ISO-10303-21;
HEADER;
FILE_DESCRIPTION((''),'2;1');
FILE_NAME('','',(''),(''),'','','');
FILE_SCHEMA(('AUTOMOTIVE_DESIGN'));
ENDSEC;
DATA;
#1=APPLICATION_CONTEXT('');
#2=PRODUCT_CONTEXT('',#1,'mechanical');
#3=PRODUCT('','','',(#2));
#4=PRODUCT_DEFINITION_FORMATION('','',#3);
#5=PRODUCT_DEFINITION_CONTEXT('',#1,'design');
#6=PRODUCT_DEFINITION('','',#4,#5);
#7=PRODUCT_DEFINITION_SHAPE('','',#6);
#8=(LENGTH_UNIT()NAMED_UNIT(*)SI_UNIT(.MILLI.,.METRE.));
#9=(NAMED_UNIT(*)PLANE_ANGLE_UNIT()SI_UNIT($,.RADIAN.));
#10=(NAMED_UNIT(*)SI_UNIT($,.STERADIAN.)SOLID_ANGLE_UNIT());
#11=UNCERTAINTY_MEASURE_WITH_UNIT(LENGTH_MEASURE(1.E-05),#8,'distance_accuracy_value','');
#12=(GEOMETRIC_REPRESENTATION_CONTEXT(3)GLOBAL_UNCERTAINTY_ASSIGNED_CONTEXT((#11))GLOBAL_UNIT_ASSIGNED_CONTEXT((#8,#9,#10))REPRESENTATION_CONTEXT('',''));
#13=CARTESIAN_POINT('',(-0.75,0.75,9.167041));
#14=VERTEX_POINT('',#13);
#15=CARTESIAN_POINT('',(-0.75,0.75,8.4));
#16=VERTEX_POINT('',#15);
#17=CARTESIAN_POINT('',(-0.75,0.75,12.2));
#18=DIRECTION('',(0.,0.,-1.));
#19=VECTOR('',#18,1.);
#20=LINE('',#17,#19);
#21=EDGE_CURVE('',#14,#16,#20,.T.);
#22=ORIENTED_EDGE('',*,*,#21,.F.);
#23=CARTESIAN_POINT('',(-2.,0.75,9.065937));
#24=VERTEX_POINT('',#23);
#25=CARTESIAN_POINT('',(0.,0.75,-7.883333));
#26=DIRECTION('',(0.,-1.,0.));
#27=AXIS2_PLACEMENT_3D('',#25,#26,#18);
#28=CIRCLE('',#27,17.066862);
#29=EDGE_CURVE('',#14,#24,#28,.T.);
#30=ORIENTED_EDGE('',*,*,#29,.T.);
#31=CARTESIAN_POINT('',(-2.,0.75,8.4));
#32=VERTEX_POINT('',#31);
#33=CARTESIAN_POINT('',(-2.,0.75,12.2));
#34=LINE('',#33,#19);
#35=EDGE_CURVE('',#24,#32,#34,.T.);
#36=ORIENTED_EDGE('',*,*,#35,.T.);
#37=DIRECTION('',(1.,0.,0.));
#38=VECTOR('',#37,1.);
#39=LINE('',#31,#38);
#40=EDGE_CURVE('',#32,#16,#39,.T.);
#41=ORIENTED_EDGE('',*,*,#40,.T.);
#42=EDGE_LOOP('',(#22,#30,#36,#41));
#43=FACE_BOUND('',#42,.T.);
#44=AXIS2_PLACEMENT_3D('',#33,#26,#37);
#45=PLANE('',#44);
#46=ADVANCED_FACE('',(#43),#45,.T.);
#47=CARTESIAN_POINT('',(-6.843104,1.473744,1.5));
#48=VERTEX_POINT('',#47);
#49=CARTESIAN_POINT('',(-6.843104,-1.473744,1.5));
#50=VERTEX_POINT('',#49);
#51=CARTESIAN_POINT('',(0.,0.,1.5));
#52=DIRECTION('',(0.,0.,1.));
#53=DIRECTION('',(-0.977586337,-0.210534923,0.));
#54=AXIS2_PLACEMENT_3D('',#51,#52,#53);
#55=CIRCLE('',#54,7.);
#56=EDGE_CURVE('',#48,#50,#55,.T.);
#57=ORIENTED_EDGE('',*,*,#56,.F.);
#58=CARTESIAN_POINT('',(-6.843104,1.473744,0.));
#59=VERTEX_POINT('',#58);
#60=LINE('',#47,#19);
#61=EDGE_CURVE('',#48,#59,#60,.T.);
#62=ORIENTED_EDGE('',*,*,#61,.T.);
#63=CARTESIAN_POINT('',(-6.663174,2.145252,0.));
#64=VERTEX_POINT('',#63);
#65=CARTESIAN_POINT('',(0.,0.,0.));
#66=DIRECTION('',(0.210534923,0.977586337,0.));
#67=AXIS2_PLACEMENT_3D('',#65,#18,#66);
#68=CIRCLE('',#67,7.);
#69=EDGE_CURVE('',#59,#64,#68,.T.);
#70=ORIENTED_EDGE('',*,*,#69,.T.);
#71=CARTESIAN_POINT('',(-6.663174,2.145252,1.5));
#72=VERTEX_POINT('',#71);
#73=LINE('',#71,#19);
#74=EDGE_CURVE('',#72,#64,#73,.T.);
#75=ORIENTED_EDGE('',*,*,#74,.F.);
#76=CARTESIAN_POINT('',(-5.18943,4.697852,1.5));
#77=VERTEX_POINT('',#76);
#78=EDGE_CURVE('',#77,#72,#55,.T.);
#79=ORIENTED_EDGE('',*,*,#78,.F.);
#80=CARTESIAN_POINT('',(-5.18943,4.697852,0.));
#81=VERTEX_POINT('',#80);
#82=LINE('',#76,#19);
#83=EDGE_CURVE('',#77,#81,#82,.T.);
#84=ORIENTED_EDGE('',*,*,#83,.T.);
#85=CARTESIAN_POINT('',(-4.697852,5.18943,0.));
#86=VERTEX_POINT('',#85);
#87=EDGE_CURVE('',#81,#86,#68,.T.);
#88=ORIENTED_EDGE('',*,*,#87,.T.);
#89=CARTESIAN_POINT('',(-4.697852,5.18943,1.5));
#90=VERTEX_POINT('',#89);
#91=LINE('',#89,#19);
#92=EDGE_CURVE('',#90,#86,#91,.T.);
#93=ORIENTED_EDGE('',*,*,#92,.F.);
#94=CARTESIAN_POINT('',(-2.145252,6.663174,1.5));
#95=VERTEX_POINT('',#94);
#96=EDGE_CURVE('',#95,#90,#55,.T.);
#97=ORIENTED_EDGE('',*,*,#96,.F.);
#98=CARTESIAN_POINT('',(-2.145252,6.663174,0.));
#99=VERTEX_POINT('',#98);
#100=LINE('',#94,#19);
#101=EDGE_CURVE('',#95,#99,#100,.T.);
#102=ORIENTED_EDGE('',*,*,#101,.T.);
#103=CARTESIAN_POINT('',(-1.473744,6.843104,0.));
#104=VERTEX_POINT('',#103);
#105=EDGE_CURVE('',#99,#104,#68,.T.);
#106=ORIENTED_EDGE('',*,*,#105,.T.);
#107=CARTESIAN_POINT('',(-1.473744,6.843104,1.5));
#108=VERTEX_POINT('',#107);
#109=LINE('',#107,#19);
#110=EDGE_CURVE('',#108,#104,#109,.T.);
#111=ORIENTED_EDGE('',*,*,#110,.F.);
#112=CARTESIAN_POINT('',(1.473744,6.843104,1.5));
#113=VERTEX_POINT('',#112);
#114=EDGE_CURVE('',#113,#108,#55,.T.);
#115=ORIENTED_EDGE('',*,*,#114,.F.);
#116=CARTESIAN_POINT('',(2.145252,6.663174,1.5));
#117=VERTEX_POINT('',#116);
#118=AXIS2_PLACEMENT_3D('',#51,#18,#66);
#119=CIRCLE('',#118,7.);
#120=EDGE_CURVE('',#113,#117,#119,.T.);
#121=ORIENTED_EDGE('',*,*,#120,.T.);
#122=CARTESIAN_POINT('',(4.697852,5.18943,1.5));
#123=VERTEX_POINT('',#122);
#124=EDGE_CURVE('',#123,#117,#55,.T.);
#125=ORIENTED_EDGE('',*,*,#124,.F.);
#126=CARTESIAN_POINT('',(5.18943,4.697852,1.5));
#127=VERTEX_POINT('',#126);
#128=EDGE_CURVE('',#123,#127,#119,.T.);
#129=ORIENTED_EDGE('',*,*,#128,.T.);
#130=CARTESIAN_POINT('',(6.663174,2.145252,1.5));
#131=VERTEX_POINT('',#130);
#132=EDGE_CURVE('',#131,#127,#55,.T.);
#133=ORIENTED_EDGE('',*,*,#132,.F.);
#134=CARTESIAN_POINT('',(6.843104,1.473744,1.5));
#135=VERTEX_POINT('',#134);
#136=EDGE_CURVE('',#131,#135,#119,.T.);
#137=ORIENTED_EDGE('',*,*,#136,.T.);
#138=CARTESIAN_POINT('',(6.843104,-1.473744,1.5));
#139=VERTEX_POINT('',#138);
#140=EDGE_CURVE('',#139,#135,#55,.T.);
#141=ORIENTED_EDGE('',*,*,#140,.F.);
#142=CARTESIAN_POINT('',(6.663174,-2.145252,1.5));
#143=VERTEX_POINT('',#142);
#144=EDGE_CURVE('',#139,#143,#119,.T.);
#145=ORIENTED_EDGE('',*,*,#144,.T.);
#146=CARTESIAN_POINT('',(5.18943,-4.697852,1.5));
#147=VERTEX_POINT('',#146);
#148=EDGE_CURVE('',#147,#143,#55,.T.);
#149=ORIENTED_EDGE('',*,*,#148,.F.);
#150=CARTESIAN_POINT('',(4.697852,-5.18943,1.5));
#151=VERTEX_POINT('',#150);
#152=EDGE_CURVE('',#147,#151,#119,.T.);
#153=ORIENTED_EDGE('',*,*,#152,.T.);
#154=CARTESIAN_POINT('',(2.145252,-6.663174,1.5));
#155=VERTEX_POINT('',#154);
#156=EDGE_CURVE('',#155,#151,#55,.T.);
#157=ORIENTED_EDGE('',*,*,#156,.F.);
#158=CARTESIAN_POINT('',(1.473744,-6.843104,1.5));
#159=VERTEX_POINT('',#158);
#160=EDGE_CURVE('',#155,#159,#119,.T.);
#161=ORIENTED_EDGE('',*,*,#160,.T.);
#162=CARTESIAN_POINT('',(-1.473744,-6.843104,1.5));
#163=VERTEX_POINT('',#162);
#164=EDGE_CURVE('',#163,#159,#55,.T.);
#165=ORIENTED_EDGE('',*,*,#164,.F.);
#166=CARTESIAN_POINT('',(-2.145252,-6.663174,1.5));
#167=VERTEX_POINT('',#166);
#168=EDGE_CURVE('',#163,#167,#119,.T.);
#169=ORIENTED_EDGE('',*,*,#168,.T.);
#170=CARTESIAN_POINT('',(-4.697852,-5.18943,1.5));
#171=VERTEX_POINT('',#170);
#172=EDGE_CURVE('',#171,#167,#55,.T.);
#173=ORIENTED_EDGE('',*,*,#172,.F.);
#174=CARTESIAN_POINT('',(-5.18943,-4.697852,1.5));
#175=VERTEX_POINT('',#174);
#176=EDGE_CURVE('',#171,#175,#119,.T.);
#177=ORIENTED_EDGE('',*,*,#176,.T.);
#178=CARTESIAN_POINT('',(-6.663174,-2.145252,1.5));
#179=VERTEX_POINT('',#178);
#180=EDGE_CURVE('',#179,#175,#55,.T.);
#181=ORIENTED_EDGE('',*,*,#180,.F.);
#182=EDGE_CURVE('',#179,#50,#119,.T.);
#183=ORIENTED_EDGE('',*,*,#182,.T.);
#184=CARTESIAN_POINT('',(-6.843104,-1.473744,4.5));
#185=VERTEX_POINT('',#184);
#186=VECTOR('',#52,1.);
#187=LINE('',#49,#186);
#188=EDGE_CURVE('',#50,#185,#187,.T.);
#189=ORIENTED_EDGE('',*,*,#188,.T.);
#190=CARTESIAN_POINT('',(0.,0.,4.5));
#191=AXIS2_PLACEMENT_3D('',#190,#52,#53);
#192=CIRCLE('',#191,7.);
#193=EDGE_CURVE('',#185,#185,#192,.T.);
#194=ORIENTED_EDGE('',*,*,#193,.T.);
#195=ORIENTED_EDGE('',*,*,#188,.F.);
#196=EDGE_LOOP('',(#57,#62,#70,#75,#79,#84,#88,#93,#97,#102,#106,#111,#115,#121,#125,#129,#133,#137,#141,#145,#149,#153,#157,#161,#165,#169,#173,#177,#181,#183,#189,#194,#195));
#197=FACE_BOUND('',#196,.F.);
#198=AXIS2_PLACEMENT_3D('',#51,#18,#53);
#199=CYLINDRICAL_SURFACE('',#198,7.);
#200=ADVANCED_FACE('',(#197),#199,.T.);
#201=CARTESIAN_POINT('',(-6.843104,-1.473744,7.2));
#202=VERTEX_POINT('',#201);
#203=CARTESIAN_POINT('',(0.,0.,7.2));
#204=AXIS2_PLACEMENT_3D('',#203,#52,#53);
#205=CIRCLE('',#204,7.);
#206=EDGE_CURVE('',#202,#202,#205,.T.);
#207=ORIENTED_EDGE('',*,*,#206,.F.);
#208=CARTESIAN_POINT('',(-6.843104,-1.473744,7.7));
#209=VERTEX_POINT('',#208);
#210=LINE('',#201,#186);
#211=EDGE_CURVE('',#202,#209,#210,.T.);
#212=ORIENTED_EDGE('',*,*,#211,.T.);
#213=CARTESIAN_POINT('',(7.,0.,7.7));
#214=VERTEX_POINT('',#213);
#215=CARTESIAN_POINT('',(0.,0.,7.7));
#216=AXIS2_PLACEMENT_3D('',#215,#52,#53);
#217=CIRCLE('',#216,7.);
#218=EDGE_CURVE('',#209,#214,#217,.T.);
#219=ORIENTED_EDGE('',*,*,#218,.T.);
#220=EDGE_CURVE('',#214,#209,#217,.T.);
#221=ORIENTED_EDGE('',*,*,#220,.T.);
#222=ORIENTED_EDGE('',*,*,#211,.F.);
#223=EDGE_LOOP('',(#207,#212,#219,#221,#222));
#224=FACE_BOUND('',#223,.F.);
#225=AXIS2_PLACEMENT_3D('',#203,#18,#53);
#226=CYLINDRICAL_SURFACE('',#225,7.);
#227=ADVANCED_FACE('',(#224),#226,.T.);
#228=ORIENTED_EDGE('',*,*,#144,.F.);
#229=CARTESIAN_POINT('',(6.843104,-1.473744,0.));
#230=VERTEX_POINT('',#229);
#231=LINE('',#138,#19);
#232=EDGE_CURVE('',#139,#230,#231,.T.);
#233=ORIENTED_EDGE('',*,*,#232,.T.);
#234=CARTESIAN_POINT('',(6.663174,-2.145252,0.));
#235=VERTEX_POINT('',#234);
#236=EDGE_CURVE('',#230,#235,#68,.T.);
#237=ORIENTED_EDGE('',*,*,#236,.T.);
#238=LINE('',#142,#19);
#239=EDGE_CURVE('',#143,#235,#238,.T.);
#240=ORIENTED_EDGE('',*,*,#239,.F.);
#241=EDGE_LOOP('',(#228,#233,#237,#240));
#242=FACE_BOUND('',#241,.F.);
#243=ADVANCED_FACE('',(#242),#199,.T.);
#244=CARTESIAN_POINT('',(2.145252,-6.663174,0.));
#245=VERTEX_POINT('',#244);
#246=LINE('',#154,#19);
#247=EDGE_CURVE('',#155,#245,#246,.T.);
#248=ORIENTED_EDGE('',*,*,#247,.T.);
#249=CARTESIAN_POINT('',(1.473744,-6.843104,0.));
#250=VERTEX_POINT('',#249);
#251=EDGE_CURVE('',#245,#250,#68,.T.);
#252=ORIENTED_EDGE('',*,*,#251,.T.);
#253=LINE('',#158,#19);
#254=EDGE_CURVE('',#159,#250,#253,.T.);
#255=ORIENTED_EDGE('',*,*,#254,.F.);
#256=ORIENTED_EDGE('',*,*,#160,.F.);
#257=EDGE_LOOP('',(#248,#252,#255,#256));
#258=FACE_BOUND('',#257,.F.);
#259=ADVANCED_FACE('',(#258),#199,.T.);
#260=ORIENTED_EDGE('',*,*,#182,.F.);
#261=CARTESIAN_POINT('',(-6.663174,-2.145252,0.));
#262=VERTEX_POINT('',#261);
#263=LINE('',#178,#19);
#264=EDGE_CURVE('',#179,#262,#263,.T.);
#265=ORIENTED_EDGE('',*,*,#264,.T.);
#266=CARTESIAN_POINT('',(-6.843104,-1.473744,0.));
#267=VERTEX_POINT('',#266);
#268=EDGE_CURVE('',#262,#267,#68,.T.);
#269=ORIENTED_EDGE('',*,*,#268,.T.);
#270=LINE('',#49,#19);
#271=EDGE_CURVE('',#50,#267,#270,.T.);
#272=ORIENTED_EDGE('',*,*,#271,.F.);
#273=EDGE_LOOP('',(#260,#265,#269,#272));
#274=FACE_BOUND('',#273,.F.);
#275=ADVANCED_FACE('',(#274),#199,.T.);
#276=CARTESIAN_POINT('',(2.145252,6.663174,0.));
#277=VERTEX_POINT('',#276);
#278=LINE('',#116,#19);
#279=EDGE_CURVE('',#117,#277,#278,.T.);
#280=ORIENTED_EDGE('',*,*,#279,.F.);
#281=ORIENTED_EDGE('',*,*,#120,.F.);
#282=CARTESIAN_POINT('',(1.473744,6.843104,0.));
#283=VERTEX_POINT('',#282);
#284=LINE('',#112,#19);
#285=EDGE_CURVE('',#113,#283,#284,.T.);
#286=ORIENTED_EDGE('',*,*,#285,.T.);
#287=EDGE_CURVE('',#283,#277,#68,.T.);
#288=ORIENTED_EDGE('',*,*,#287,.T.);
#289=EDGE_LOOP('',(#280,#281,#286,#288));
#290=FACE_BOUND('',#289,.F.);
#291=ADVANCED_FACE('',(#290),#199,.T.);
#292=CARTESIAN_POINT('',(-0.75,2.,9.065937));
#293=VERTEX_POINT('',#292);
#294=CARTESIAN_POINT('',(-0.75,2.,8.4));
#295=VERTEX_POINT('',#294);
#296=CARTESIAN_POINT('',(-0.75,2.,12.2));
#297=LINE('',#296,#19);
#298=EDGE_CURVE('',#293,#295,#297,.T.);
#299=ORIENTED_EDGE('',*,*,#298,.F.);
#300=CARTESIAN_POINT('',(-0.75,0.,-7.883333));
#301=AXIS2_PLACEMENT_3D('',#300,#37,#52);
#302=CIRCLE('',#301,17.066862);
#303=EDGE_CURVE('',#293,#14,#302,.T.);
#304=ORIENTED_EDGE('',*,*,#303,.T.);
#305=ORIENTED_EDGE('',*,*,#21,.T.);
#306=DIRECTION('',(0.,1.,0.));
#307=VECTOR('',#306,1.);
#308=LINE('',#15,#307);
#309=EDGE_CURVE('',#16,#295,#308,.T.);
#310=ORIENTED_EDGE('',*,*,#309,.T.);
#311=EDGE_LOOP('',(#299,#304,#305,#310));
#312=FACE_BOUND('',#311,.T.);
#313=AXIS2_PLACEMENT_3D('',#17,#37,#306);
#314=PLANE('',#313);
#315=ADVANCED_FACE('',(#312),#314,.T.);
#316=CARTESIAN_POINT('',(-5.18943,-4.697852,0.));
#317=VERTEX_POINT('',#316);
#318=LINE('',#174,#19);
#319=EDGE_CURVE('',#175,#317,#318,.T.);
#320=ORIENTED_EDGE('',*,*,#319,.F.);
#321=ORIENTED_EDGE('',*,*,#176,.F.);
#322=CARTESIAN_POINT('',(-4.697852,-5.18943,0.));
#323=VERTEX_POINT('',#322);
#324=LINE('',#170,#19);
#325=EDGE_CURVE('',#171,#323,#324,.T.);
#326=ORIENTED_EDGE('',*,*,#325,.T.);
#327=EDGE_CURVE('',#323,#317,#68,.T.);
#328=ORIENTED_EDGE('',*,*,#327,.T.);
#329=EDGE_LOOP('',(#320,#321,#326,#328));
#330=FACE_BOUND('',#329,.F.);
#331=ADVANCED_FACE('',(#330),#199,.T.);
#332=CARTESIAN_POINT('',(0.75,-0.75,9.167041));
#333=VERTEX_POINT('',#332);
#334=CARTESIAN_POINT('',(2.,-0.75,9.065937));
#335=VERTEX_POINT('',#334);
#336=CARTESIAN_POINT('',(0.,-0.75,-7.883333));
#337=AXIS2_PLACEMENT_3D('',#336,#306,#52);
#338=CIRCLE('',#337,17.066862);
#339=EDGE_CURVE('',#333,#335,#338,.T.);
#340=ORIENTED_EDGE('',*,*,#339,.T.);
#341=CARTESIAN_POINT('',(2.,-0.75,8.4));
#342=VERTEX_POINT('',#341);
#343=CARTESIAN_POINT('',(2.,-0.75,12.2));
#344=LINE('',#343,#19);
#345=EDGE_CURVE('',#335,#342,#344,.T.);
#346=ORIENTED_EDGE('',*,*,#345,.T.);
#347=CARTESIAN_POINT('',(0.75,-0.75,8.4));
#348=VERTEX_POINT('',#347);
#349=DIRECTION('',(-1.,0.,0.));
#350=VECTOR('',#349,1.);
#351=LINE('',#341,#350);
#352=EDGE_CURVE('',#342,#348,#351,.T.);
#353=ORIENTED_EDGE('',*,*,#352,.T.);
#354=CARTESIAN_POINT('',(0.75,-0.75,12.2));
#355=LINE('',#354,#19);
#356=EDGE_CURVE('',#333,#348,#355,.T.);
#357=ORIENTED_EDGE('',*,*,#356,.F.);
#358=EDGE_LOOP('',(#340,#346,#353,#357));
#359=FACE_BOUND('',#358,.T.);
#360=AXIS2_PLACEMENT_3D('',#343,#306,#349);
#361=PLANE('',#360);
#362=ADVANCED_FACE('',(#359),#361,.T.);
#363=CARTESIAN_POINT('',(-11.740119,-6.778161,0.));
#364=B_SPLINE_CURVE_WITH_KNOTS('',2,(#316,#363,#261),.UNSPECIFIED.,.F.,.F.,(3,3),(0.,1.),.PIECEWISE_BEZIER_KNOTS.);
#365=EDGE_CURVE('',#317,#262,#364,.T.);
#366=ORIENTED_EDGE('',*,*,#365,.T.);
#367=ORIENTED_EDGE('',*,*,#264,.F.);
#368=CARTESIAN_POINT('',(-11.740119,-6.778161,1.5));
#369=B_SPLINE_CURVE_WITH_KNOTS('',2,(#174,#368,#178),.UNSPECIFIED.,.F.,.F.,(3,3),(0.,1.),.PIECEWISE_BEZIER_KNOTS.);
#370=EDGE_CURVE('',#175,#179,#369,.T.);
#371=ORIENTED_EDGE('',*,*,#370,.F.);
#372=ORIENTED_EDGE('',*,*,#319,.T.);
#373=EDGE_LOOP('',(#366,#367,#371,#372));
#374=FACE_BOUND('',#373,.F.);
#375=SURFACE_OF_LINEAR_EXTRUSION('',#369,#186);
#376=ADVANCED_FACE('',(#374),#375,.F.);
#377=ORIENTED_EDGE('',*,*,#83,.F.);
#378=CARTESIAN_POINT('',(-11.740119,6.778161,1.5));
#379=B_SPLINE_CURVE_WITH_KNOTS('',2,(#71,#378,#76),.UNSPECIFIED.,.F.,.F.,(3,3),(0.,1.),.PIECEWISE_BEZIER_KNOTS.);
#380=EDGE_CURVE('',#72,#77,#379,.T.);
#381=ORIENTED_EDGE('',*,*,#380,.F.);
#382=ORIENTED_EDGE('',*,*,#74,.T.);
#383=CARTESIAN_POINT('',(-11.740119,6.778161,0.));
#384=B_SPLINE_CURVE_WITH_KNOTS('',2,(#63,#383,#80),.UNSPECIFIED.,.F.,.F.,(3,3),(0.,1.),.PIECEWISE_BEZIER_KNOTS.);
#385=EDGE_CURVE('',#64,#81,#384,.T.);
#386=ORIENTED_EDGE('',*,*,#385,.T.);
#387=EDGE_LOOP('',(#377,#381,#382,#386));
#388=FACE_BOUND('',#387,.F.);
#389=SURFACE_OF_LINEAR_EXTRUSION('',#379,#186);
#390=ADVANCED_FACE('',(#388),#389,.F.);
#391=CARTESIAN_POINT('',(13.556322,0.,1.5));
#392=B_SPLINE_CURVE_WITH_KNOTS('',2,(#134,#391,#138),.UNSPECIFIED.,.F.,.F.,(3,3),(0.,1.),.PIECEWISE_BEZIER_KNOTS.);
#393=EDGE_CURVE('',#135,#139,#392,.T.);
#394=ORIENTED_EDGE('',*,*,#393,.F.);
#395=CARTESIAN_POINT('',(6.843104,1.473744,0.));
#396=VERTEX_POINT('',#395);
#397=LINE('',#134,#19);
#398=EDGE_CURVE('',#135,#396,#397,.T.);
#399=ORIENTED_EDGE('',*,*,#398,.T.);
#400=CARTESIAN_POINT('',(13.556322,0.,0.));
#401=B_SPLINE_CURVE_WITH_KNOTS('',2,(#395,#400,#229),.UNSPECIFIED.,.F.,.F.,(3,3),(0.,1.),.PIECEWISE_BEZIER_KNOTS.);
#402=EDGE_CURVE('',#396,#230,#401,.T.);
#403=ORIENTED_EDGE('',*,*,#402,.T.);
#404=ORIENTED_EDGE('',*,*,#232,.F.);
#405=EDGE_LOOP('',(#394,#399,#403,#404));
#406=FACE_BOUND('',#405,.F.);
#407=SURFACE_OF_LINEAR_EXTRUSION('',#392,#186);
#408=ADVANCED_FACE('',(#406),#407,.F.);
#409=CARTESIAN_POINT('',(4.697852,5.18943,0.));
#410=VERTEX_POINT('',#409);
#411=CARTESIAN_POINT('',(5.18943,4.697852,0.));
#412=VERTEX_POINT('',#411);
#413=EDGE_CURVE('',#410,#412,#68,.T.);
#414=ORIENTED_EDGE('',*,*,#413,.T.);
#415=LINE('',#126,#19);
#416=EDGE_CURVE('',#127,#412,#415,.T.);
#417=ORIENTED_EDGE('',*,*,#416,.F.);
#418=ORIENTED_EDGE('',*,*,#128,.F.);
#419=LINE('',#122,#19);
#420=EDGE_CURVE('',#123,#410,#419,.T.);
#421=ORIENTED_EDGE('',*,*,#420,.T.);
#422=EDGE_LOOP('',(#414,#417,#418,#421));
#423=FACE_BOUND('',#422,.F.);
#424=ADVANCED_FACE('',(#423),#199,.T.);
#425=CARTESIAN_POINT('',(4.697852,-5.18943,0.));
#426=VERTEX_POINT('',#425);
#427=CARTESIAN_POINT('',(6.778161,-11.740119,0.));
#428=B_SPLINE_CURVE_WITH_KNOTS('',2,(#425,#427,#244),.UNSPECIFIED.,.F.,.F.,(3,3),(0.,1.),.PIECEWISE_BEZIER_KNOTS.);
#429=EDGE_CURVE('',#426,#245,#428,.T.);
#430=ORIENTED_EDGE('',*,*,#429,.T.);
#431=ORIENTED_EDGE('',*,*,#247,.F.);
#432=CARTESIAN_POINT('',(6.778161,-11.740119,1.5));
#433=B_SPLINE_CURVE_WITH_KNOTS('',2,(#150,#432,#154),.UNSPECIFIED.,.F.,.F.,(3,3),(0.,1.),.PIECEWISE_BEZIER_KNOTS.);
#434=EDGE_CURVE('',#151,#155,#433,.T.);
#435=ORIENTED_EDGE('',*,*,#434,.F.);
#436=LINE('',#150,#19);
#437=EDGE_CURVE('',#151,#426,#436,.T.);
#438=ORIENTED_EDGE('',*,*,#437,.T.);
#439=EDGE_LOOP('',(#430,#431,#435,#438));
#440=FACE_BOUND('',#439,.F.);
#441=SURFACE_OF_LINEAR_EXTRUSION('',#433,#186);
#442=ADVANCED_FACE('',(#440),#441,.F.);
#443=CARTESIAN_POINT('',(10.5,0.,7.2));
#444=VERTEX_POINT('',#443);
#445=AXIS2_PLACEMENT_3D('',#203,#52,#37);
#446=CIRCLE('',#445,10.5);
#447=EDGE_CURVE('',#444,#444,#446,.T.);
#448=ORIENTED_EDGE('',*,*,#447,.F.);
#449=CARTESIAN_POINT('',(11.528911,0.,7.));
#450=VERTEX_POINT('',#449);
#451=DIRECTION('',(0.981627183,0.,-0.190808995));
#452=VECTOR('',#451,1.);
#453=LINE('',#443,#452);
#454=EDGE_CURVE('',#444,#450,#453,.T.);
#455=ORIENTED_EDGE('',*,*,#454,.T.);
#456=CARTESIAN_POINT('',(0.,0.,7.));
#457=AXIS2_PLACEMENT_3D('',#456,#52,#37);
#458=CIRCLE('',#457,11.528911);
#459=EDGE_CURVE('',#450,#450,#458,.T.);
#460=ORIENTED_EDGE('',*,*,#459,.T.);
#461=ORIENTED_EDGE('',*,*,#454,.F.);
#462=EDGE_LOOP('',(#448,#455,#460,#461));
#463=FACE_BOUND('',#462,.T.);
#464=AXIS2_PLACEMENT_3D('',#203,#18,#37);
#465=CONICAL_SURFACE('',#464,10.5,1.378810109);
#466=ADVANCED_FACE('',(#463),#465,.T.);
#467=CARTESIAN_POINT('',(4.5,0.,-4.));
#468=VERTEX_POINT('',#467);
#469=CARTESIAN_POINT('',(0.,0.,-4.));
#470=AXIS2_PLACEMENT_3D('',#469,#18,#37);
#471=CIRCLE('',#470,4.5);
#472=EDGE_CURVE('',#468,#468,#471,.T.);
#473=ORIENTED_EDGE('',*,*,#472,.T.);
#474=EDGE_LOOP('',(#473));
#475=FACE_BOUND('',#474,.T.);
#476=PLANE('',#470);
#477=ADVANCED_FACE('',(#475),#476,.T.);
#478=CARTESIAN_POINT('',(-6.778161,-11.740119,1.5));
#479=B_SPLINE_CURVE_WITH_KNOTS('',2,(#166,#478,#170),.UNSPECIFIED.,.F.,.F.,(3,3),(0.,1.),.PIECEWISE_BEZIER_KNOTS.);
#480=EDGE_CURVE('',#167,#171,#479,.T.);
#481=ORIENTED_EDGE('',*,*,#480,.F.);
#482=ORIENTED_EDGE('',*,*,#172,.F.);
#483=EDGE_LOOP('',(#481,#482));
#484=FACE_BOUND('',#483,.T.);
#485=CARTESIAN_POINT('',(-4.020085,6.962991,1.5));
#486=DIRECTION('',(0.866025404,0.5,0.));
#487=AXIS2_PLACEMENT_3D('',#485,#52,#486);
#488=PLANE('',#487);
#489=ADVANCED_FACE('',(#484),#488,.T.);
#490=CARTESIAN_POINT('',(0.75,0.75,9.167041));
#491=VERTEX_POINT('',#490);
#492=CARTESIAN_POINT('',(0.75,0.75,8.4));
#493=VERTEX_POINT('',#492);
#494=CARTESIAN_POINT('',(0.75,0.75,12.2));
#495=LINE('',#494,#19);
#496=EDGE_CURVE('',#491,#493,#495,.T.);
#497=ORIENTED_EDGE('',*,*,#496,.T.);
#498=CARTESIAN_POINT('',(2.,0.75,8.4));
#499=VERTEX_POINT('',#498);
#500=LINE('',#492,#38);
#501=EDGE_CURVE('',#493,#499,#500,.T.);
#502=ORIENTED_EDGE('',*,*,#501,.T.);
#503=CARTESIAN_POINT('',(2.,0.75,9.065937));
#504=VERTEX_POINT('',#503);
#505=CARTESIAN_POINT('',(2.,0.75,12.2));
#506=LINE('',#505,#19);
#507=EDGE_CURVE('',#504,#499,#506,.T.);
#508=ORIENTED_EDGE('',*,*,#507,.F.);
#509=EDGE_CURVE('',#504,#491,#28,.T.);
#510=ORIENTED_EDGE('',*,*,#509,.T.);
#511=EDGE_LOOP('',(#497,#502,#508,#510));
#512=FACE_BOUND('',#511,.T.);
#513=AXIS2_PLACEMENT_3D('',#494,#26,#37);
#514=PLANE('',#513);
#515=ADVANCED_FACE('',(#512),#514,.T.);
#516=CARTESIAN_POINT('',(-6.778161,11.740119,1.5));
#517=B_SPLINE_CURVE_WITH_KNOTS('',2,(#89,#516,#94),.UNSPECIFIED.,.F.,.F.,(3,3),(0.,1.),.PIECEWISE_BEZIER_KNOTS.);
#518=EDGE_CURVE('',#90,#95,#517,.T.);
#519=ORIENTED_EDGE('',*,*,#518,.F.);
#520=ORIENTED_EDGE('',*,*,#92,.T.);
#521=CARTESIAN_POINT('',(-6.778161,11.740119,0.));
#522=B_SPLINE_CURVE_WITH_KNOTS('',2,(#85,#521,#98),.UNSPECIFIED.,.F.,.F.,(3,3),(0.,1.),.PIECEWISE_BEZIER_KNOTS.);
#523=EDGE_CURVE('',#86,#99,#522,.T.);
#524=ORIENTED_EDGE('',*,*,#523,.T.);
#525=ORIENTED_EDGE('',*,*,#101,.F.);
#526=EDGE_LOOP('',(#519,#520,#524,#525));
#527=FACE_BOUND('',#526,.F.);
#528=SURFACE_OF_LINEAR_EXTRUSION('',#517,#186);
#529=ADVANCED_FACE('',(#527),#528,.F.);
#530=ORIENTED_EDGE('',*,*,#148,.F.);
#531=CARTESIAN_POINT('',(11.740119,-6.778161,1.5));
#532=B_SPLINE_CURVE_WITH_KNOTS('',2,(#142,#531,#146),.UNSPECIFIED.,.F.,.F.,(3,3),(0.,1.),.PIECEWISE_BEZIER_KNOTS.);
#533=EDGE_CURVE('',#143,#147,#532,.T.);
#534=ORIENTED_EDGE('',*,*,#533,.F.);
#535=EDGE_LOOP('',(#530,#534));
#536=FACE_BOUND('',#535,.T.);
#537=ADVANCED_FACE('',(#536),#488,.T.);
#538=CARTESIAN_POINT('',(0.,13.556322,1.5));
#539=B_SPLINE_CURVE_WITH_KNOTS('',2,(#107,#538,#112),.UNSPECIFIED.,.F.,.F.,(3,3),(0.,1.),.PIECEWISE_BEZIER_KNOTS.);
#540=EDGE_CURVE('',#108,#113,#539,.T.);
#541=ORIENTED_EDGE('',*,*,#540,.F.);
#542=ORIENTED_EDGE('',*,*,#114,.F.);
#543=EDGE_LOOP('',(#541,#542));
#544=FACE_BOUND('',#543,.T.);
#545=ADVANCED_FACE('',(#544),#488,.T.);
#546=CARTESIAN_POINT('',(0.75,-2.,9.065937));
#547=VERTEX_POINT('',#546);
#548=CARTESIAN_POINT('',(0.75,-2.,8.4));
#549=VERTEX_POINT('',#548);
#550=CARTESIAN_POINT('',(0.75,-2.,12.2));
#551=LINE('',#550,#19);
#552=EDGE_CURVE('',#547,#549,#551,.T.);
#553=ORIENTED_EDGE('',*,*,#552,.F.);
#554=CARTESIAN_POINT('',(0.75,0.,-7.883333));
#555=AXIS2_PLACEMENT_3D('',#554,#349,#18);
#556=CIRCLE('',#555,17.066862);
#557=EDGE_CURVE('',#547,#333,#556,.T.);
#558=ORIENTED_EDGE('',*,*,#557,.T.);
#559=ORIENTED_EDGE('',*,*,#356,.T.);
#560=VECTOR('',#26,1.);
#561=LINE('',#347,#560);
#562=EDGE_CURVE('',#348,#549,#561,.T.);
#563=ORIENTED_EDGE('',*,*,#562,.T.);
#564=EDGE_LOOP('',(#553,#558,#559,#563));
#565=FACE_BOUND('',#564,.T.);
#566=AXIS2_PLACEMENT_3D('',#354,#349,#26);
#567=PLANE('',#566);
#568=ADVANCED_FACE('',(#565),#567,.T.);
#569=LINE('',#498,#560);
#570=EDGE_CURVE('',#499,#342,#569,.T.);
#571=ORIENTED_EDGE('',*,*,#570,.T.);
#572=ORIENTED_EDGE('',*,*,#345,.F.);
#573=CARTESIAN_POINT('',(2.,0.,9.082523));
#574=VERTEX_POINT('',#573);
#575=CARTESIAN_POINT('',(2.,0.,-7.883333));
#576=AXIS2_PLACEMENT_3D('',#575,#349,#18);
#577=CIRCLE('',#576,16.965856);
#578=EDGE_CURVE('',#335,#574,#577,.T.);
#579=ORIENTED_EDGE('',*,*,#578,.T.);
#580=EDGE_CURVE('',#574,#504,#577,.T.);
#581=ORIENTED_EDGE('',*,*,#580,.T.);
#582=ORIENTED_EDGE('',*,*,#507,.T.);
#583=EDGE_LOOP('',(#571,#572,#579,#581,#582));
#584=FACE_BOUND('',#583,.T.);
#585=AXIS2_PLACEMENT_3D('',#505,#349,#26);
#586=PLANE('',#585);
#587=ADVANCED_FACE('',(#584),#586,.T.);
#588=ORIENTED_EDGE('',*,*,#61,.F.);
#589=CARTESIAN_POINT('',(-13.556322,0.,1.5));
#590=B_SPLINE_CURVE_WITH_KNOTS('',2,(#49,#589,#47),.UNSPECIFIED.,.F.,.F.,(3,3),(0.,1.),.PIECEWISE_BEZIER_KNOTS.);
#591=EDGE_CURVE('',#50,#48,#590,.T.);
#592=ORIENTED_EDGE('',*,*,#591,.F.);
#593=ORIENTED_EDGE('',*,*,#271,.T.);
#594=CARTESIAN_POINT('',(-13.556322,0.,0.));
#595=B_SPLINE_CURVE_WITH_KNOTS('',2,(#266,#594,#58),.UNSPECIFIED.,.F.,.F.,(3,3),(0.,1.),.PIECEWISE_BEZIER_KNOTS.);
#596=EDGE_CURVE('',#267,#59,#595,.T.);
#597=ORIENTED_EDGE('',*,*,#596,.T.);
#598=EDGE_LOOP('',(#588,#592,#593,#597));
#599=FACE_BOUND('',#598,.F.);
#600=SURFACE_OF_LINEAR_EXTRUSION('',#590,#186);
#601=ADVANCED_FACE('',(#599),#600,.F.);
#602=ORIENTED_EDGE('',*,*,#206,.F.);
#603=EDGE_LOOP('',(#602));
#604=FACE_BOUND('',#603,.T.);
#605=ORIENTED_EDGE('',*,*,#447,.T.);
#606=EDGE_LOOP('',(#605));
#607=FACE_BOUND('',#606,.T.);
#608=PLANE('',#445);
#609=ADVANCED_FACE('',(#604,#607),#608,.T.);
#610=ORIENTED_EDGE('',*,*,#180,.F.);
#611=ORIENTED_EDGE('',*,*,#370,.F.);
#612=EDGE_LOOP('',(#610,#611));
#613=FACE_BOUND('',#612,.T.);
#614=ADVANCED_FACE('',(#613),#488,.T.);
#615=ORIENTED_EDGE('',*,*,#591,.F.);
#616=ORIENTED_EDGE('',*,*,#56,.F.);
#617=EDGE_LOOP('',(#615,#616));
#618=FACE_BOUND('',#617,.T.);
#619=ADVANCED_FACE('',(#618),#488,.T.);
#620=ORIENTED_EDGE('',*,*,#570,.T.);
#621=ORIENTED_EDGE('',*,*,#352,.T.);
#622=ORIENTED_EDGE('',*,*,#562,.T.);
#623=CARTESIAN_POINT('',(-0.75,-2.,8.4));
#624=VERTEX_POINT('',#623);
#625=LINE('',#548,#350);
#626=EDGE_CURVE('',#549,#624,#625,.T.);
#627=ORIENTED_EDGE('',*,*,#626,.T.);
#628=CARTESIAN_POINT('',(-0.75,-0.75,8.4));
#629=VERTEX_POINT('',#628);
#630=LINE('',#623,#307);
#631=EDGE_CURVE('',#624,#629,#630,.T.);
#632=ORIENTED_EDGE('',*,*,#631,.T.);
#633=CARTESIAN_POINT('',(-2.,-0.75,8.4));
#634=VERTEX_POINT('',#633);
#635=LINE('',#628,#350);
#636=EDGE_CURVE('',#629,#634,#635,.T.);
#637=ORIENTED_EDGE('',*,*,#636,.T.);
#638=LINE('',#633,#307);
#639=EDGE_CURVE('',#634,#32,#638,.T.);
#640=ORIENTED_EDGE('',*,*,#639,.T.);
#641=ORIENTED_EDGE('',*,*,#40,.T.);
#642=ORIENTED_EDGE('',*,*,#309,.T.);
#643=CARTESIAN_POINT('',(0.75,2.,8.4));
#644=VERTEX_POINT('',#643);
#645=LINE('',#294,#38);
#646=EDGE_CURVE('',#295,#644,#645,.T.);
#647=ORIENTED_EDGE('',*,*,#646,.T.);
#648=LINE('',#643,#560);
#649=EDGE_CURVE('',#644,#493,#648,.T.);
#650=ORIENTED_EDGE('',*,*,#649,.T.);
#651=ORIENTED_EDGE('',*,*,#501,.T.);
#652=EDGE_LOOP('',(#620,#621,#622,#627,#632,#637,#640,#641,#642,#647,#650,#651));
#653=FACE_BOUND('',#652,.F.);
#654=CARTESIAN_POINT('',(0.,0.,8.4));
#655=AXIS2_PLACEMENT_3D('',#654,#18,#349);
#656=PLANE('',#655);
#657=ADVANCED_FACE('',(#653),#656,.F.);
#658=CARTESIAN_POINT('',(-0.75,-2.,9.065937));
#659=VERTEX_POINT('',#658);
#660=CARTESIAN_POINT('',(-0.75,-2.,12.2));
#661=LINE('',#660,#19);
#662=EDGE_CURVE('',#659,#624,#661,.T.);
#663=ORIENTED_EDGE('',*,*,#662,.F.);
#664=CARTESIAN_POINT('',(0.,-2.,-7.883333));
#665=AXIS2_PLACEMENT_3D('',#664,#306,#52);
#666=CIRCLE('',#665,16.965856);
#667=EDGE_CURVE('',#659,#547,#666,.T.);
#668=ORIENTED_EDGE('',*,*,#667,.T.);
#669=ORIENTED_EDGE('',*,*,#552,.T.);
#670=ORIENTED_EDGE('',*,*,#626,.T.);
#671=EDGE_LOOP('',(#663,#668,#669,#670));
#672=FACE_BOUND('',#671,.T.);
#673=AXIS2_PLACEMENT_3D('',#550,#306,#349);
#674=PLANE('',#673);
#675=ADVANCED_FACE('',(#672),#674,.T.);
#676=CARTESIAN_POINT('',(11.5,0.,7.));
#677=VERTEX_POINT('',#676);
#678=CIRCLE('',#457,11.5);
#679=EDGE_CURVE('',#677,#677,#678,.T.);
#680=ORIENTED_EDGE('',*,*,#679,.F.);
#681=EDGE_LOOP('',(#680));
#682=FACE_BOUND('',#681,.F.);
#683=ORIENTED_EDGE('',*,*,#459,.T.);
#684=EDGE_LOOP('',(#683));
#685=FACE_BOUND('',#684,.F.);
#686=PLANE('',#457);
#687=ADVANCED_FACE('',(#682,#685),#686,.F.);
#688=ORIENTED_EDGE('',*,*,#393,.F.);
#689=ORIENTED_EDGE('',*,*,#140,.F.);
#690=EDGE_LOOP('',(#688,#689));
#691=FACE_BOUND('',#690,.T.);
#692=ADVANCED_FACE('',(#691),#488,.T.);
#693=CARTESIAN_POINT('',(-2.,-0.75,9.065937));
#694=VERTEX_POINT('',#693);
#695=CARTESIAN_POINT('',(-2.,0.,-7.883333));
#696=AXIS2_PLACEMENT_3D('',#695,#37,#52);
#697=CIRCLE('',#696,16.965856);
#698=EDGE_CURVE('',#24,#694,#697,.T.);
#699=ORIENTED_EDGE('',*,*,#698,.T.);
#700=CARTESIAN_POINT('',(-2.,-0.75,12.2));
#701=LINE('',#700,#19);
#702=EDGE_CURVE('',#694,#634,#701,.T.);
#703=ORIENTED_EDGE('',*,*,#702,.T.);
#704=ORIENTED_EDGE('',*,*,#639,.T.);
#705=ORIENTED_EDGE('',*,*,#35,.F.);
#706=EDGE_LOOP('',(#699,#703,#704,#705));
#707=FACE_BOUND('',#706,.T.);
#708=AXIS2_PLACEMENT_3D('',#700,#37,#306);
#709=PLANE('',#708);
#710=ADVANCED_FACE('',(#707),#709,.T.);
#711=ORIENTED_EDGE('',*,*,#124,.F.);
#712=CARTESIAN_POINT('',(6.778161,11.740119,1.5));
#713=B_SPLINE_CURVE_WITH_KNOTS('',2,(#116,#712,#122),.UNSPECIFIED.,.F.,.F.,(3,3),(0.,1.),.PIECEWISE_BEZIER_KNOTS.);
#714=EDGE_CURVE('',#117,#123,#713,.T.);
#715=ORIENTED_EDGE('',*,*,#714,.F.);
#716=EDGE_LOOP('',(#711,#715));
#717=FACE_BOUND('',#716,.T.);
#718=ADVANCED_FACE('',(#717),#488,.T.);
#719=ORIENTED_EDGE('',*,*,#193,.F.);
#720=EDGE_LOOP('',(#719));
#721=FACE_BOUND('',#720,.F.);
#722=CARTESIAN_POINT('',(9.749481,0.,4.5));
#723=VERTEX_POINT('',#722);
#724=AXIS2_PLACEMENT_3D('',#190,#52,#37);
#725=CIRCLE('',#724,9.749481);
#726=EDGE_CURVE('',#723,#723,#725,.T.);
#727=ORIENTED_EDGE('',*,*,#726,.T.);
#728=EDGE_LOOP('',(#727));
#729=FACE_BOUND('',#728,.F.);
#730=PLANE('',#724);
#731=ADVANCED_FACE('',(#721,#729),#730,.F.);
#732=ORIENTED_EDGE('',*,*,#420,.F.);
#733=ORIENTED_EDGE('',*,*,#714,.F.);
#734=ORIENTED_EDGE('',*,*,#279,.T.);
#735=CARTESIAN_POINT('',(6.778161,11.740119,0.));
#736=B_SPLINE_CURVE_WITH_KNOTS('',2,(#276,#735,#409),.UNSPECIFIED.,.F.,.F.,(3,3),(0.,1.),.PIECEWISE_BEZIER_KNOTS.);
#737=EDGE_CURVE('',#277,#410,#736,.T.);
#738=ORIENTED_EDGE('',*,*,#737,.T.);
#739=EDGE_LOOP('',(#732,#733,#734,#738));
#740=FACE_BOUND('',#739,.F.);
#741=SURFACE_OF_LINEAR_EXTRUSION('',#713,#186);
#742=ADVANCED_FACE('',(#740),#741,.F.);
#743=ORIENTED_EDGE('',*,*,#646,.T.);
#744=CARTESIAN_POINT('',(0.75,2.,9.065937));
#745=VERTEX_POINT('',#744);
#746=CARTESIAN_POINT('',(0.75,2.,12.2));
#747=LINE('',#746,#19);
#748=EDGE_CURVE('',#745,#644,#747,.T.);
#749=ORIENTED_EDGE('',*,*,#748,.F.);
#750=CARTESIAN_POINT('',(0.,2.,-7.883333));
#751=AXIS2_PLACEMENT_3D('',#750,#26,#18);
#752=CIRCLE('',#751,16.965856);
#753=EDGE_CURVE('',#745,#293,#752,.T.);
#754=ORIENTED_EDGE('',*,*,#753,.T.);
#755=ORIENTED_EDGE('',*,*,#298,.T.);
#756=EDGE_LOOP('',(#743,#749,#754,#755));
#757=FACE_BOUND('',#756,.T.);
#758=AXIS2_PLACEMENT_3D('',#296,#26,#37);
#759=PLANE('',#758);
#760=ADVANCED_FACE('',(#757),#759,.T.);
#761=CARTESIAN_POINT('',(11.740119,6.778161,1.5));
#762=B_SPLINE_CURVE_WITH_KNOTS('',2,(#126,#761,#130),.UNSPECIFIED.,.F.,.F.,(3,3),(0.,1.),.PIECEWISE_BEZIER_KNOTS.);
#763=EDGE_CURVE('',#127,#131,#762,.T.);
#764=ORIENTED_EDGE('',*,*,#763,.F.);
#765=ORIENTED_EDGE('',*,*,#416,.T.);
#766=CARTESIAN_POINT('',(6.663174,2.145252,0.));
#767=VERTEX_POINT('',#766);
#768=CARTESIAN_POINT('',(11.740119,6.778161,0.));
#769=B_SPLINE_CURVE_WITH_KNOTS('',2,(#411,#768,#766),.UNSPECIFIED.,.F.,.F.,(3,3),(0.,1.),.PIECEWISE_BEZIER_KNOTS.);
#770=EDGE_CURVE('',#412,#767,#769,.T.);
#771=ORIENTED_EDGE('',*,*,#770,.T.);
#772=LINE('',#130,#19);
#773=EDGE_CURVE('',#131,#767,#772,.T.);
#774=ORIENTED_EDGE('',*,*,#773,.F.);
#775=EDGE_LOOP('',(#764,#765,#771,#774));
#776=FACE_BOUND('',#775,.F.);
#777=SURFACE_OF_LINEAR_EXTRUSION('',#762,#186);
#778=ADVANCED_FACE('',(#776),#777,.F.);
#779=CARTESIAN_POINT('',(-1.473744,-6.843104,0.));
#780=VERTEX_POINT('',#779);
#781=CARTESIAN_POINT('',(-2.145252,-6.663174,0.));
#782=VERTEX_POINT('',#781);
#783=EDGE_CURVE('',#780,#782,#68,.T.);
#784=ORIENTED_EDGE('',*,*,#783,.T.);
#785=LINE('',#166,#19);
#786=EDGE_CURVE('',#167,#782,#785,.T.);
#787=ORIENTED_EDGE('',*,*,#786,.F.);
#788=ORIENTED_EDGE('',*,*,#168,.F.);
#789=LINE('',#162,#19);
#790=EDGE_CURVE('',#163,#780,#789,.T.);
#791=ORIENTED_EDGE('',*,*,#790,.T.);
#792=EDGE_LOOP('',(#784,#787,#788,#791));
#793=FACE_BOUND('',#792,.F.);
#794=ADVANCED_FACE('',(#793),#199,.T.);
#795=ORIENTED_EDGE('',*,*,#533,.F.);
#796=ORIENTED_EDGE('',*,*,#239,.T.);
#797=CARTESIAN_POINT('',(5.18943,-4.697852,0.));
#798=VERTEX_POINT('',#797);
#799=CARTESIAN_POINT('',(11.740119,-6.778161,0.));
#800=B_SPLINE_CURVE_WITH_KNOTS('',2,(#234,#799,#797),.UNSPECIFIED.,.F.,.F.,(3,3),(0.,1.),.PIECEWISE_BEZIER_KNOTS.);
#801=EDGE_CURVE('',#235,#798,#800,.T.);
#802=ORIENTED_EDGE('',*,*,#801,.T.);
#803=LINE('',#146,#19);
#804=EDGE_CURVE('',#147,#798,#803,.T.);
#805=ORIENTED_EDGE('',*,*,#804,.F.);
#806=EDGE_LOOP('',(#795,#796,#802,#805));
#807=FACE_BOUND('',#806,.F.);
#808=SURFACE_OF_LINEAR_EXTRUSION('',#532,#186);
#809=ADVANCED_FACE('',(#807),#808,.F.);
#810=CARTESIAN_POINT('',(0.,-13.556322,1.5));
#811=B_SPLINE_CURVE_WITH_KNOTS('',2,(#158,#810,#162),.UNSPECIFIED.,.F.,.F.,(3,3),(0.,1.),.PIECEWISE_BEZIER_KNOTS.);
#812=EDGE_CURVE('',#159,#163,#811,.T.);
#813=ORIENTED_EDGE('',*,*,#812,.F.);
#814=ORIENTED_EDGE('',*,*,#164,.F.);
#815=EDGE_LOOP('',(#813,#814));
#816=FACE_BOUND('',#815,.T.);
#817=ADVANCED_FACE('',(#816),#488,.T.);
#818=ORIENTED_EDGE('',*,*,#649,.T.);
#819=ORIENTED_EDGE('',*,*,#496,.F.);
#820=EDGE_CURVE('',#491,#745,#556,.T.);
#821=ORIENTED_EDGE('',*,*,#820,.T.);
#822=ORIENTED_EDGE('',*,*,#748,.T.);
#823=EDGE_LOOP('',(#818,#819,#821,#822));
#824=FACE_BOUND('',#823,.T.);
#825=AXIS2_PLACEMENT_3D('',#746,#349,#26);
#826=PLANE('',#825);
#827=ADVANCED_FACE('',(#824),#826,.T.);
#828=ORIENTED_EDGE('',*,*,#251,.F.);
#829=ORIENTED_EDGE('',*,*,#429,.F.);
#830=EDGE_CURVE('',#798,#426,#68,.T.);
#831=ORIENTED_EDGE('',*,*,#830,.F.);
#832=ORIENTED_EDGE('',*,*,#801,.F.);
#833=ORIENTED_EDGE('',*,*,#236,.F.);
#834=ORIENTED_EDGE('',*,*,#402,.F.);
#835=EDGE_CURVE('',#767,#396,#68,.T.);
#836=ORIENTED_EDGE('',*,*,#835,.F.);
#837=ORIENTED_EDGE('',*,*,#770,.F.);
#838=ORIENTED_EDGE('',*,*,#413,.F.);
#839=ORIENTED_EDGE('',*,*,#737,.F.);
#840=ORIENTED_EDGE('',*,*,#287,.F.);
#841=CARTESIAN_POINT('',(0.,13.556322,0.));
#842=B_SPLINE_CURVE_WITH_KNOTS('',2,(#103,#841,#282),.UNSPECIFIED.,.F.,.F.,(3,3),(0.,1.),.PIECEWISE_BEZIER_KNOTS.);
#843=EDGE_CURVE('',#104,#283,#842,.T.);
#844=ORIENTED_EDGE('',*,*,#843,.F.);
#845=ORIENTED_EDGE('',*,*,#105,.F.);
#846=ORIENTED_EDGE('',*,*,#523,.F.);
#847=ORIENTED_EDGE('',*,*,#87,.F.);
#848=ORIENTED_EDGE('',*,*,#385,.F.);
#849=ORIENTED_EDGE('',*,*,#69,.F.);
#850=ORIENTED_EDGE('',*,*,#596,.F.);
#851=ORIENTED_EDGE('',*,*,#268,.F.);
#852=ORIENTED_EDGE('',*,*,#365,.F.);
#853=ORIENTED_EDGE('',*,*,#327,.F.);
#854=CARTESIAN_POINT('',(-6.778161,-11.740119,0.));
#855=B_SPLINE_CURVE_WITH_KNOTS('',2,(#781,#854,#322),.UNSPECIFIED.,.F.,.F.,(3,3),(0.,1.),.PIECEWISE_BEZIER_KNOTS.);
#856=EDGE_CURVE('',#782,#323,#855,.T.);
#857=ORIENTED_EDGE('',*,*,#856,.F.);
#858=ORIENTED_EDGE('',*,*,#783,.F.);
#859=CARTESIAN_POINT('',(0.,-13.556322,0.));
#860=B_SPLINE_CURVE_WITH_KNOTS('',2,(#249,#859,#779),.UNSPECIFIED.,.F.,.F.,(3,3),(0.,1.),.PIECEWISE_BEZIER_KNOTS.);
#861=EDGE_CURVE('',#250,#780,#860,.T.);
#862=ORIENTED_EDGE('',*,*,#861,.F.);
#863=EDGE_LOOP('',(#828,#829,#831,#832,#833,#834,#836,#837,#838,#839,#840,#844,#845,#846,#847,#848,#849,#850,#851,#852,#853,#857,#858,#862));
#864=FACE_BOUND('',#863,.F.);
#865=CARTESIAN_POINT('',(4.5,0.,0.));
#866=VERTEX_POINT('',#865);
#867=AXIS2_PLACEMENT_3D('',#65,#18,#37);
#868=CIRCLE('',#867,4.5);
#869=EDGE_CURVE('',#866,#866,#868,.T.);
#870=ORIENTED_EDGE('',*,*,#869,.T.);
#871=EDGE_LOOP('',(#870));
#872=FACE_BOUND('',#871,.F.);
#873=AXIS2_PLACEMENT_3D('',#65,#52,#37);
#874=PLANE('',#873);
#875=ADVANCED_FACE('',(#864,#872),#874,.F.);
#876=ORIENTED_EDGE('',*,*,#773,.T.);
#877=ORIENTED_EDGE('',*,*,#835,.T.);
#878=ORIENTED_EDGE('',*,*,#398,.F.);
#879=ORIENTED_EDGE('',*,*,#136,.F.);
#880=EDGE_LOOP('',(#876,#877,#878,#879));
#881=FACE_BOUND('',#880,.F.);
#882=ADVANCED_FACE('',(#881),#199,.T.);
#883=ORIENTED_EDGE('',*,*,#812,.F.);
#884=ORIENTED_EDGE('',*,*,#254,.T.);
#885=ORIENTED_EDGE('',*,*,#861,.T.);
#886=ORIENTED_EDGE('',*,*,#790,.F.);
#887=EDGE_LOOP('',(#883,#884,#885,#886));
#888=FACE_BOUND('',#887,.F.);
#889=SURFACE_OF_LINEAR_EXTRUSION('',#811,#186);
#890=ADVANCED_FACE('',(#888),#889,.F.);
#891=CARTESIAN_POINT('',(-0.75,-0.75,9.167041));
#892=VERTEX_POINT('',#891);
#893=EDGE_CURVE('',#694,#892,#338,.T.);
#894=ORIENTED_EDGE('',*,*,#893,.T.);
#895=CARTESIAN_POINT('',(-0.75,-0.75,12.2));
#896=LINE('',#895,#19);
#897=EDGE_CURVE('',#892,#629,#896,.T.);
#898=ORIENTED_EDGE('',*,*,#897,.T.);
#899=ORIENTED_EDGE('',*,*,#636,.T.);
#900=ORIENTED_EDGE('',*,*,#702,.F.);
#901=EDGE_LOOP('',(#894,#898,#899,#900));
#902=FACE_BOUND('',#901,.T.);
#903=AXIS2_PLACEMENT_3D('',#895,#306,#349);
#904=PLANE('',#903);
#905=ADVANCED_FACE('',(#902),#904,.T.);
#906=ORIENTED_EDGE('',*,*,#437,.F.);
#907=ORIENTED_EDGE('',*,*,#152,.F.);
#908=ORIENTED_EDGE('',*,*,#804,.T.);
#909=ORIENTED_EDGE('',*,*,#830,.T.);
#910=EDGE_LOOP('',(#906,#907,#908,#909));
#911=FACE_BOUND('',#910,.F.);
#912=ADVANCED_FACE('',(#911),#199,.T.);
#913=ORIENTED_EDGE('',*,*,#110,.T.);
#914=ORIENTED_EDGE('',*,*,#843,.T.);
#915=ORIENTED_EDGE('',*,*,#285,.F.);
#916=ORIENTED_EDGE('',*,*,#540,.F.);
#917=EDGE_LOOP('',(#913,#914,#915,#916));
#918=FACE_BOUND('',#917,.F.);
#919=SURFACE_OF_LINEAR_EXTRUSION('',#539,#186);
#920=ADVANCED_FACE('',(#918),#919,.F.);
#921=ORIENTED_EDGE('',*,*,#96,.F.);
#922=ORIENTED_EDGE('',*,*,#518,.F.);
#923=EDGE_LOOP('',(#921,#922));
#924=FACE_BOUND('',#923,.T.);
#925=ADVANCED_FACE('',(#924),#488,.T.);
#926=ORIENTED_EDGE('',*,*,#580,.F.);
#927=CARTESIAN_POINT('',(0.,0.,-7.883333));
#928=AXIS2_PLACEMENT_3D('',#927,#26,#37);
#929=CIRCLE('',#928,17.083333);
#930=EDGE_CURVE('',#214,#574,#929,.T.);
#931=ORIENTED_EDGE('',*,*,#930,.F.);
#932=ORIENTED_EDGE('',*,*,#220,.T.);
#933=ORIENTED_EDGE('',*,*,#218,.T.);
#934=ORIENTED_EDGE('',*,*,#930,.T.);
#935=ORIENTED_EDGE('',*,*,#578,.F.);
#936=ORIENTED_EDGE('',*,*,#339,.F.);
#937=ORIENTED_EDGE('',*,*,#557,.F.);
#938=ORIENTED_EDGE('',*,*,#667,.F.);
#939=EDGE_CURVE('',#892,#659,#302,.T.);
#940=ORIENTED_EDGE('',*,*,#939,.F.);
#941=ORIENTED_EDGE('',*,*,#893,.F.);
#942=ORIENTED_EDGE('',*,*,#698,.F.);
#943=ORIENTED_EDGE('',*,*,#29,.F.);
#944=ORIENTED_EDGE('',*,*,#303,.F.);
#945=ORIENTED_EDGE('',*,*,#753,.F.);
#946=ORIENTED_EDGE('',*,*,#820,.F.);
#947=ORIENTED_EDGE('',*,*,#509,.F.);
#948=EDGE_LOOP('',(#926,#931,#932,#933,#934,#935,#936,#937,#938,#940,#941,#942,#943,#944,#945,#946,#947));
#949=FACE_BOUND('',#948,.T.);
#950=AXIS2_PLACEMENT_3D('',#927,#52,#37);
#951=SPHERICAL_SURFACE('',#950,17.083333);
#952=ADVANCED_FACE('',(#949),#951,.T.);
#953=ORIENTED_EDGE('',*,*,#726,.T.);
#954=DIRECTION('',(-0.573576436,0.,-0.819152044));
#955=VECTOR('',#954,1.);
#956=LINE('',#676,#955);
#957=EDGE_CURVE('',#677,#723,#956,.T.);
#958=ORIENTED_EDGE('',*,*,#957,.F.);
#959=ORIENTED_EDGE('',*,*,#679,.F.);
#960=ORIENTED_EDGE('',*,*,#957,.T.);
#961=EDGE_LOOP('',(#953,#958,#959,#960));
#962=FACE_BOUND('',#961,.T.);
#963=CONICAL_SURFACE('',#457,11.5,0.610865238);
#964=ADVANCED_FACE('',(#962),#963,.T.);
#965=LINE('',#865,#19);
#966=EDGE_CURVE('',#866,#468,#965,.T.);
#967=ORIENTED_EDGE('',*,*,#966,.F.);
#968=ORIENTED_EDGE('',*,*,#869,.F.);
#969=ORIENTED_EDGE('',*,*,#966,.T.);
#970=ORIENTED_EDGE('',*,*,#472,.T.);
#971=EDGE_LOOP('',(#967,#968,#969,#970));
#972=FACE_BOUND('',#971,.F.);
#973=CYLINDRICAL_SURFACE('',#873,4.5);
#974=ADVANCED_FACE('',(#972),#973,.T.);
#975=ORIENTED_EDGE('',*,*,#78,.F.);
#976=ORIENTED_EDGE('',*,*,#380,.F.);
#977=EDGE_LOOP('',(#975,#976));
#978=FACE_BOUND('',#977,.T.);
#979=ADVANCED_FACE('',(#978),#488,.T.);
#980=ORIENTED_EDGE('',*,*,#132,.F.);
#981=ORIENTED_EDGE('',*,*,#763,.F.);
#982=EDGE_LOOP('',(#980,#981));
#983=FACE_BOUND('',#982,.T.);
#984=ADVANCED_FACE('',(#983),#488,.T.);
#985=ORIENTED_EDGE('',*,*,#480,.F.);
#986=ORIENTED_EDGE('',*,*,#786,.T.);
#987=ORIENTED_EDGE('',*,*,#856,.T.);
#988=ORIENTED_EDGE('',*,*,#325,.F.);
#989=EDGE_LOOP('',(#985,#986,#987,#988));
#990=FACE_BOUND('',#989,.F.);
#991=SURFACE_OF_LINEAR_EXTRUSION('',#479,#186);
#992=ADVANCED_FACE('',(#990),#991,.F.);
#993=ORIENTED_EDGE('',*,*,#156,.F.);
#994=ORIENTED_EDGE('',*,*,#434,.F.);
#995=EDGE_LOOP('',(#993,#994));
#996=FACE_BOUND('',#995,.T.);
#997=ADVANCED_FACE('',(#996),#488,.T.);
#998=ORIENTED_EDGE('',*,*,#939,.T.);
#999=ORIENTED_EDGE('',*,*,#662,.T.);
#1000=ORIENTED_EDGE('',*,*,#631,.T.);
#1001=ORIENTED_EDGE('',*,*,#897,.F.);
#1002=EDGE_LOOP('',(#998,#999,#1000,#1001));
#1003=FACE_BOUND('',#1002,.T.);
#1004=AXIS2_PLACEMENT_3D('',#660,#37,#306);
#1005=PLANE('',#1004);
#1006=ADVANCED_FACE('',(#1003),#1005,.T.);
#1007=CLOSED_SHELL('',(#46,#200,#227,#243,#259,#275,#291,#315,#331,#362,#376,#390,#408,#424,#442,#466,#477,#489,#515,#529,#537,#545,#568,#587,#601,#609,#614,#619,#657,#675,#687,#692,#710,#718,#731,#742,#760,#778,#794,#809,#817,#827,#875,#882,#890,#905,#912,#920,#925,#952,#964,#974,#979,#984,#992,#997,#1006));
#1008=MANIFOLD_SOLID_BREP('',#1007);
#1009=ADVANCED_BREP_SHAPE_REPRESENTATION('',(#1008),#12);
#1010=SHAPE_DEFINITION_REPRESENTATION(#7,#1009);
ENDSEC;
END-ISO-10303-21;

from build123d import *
from build123d.topology import SkipClean

# Parameters (mm, degrees)
SKETCH1_R             = 7
GEARPLATE_DEPTH       = 1.5
BOSS_EXTRUDE3_DEPTH   = 1.5
CIRPATTERN2_COUNT     = 12
SKETCH3_R             = 4.5
BACKPLATE_DEPTH       = 4
SKETCH4_R             = 7
PLATE_DEPTH           = 3
SKETCH6_R             = 11.5
ANGLEPLATE_DEPTH      = 2.5
ANGLEPLATE_DRAFT      = -35
SKETCH8_R             = 10.5
SMALLANGLEPLATE_DEPTH = 0.2
SMALLANGLEPLATE_DRAFT = 79
SKETCH9_R             = 7
DOMEEXTRUDE_DEPTH     = 0.5
DOME1_FACE_RADIUS     = 7
DOME1_HEIGHT          = 1.5
CUT_EXTRUDE1_DEPTH    = 3.8


with BuildPart() as part:
    # Sketch1 → GearPlate (new body)
    with BuildSketch(Plane.XY):
        Circle(SKETCH1_R)
    extrude(amount=GEARPLATE_DEPTH)

    # Sketch2 → Boss-Extrude3 (add)
    with BuildSketch(Plane.XY.offset(1.5)):
        with BuildLine():
            Line((-1.47374446, 6.843104359), (1.47374446, 6.843104359))
            add(Edge.make_bspline(
                [(-1.47374446, 6.843104359), (0, 13.556322037), (1.47374446, 6.843104359)],
                knots=[0, 0, 0, 1, 1, 1], degree=2))
        make_face()
    boss_extrude3 = extrude(amount=-BOSS_EXTRUDE3_DEPTH)

    # CirPattern2: Boss-Extrude3 ×12 about axis
    cirpattern2_axis = Axis((0, 0, 1.5), (0, 0, -1))
    for i in range(1, CIRPATTERN2_COUNT):
        add(boss_extrude3.rotate(cirpattern2_axis, i * 360 / CIRPATTERN2_COUNT))

    # Sketch3 → BackPlate (add)
    with BuildSketch(Plane(origin=(0, 0, 0), x_dir=(-1, 0, 0), z_dir=(0, 0, -1))):
        with Locations(Location((0, 0, 0), (0, 0, 180))):
            Circle(SKETCH3_R)
    extrude(amount=BACKPLATE_DEPTH)

    # Sketch4 → Plate (add)
    with BuildSketch(Plane.XY.offset(1.5)):
        with Locations(Location((0, 0, 0), (0, 0, 192.153701922))):
            Circle(SKETCH4_R)
    extrude(amount=PLATE_DEPTH)


with BuildPart() as angleplate_tool:
    # Sketch6 → AnglePlate (with draft: the straight prism first)
    with BuildSketch(Plane.XY.offset(7)):
        Circle(SKETCH6_R)
    extrude(amount=-ANGLEPLATE_DEPTH)
    # AnglePlate: the draft: its side faces are tilted about the plane it starts from
    angleplate_sides = [angleplate_tool.faces().sort_by_distance(p)[0] for p in [
        (-11.5, 0, 5.75),
    ]]
    draft(angleplate_sides, Plane.XY.offset(7), ANGLEPLATE_DRAFT)


with BuildPart() as part_1:
    add(part.part)

    # AnglePlate: add angleplate_tool
    add(angleplate_tool.part)


with BuildPart() as smallangleplate_tool:
    # Sketch8 → SmallAnglePlate (with draft: the straight prism first)
    with BuildSketch(Plane.XY.offset(7.2)):
        Circle(SKETCH8_R)
    extrude(amount=-SMALLANGLEPLATE_DEPTH)
    # SmallAnglePlate: the draft: its side faces are tilted about the plane it starts from
    smallangleplate_sides = [smallangleplate_tool.faces().sort_by_distance(p)[0] for p in [
        (-10.5, 0, 7.1),
    ]]
    draft(smallangleplate_sides, Plane.XY.offset(7.2), SMALLANGLEPLATE_DRAFT)


with BuildPart() as part_2:
    add(part_1.part)

    # SmallAnglePlate: add smallangleplate_tool
    add(smallangleplate_tool.part)

    # Sketch9 → DomeExtrude (add)
    with SkipClean():  # the faces are left unmerged after this step: merging them gives an invalid solid
        with BuildSketch(Plane.XY.offset(7.2)):
            with Locations(Location((0, 0, 0), (0, 0, 192.153701922))):
                Circle(SKETCH9_R)
        extrude(amount=DOMEEXTRUDE_DEPTH)

    # Dome1: a dome of height H over a round flat face of radius A is a cap of a sphere of radius (A * A + H * H) / (2 * H)
    dome1_r = (DOME1_FACE_RADIUS * DOME1_FACE_RADIUS + DOME1_HEIGHT * DOME1_HEIGHT) / (2 * DOME1_HEIGHT)
    dome1_base = Plane((0, 0, 7.7), z_dir=(0, 0, 1))
    with Locations(dome1_base.offset(DOME1_HEIGHT - dome1_r)):
        dome1_ball = Sphere(dome1_r, mode=Mode.PRIVATE)
    add(split(dome1_ball, bisect_by=dome1_base, keep=Keep.TOP, mode=Mode.PRIVATE))

    # Sketch11 → Cut-Extrude1 (cut)
    with SkipClean():  # the faces are left unmerged after this step: merging them gives an invalid solid
        with BuildSketch(Plane.XY.offset(12.2)):
            Polygon((-0.75, 2), (0.75, 2), (0.75, 0.75), (2, 0.75), (2, -0.75), (0.75, -0.75), (0.75, -2), (-0.75, -2), (-0.75, -0.75), (-2, -0.75), (-2, 0.75), (-0.75, 0.75), align=None)
        extrude(amount=-CUT_EXTRUDE1_DEPTH, mode=Mode.SUBTRACT)


solid = part_2.part
